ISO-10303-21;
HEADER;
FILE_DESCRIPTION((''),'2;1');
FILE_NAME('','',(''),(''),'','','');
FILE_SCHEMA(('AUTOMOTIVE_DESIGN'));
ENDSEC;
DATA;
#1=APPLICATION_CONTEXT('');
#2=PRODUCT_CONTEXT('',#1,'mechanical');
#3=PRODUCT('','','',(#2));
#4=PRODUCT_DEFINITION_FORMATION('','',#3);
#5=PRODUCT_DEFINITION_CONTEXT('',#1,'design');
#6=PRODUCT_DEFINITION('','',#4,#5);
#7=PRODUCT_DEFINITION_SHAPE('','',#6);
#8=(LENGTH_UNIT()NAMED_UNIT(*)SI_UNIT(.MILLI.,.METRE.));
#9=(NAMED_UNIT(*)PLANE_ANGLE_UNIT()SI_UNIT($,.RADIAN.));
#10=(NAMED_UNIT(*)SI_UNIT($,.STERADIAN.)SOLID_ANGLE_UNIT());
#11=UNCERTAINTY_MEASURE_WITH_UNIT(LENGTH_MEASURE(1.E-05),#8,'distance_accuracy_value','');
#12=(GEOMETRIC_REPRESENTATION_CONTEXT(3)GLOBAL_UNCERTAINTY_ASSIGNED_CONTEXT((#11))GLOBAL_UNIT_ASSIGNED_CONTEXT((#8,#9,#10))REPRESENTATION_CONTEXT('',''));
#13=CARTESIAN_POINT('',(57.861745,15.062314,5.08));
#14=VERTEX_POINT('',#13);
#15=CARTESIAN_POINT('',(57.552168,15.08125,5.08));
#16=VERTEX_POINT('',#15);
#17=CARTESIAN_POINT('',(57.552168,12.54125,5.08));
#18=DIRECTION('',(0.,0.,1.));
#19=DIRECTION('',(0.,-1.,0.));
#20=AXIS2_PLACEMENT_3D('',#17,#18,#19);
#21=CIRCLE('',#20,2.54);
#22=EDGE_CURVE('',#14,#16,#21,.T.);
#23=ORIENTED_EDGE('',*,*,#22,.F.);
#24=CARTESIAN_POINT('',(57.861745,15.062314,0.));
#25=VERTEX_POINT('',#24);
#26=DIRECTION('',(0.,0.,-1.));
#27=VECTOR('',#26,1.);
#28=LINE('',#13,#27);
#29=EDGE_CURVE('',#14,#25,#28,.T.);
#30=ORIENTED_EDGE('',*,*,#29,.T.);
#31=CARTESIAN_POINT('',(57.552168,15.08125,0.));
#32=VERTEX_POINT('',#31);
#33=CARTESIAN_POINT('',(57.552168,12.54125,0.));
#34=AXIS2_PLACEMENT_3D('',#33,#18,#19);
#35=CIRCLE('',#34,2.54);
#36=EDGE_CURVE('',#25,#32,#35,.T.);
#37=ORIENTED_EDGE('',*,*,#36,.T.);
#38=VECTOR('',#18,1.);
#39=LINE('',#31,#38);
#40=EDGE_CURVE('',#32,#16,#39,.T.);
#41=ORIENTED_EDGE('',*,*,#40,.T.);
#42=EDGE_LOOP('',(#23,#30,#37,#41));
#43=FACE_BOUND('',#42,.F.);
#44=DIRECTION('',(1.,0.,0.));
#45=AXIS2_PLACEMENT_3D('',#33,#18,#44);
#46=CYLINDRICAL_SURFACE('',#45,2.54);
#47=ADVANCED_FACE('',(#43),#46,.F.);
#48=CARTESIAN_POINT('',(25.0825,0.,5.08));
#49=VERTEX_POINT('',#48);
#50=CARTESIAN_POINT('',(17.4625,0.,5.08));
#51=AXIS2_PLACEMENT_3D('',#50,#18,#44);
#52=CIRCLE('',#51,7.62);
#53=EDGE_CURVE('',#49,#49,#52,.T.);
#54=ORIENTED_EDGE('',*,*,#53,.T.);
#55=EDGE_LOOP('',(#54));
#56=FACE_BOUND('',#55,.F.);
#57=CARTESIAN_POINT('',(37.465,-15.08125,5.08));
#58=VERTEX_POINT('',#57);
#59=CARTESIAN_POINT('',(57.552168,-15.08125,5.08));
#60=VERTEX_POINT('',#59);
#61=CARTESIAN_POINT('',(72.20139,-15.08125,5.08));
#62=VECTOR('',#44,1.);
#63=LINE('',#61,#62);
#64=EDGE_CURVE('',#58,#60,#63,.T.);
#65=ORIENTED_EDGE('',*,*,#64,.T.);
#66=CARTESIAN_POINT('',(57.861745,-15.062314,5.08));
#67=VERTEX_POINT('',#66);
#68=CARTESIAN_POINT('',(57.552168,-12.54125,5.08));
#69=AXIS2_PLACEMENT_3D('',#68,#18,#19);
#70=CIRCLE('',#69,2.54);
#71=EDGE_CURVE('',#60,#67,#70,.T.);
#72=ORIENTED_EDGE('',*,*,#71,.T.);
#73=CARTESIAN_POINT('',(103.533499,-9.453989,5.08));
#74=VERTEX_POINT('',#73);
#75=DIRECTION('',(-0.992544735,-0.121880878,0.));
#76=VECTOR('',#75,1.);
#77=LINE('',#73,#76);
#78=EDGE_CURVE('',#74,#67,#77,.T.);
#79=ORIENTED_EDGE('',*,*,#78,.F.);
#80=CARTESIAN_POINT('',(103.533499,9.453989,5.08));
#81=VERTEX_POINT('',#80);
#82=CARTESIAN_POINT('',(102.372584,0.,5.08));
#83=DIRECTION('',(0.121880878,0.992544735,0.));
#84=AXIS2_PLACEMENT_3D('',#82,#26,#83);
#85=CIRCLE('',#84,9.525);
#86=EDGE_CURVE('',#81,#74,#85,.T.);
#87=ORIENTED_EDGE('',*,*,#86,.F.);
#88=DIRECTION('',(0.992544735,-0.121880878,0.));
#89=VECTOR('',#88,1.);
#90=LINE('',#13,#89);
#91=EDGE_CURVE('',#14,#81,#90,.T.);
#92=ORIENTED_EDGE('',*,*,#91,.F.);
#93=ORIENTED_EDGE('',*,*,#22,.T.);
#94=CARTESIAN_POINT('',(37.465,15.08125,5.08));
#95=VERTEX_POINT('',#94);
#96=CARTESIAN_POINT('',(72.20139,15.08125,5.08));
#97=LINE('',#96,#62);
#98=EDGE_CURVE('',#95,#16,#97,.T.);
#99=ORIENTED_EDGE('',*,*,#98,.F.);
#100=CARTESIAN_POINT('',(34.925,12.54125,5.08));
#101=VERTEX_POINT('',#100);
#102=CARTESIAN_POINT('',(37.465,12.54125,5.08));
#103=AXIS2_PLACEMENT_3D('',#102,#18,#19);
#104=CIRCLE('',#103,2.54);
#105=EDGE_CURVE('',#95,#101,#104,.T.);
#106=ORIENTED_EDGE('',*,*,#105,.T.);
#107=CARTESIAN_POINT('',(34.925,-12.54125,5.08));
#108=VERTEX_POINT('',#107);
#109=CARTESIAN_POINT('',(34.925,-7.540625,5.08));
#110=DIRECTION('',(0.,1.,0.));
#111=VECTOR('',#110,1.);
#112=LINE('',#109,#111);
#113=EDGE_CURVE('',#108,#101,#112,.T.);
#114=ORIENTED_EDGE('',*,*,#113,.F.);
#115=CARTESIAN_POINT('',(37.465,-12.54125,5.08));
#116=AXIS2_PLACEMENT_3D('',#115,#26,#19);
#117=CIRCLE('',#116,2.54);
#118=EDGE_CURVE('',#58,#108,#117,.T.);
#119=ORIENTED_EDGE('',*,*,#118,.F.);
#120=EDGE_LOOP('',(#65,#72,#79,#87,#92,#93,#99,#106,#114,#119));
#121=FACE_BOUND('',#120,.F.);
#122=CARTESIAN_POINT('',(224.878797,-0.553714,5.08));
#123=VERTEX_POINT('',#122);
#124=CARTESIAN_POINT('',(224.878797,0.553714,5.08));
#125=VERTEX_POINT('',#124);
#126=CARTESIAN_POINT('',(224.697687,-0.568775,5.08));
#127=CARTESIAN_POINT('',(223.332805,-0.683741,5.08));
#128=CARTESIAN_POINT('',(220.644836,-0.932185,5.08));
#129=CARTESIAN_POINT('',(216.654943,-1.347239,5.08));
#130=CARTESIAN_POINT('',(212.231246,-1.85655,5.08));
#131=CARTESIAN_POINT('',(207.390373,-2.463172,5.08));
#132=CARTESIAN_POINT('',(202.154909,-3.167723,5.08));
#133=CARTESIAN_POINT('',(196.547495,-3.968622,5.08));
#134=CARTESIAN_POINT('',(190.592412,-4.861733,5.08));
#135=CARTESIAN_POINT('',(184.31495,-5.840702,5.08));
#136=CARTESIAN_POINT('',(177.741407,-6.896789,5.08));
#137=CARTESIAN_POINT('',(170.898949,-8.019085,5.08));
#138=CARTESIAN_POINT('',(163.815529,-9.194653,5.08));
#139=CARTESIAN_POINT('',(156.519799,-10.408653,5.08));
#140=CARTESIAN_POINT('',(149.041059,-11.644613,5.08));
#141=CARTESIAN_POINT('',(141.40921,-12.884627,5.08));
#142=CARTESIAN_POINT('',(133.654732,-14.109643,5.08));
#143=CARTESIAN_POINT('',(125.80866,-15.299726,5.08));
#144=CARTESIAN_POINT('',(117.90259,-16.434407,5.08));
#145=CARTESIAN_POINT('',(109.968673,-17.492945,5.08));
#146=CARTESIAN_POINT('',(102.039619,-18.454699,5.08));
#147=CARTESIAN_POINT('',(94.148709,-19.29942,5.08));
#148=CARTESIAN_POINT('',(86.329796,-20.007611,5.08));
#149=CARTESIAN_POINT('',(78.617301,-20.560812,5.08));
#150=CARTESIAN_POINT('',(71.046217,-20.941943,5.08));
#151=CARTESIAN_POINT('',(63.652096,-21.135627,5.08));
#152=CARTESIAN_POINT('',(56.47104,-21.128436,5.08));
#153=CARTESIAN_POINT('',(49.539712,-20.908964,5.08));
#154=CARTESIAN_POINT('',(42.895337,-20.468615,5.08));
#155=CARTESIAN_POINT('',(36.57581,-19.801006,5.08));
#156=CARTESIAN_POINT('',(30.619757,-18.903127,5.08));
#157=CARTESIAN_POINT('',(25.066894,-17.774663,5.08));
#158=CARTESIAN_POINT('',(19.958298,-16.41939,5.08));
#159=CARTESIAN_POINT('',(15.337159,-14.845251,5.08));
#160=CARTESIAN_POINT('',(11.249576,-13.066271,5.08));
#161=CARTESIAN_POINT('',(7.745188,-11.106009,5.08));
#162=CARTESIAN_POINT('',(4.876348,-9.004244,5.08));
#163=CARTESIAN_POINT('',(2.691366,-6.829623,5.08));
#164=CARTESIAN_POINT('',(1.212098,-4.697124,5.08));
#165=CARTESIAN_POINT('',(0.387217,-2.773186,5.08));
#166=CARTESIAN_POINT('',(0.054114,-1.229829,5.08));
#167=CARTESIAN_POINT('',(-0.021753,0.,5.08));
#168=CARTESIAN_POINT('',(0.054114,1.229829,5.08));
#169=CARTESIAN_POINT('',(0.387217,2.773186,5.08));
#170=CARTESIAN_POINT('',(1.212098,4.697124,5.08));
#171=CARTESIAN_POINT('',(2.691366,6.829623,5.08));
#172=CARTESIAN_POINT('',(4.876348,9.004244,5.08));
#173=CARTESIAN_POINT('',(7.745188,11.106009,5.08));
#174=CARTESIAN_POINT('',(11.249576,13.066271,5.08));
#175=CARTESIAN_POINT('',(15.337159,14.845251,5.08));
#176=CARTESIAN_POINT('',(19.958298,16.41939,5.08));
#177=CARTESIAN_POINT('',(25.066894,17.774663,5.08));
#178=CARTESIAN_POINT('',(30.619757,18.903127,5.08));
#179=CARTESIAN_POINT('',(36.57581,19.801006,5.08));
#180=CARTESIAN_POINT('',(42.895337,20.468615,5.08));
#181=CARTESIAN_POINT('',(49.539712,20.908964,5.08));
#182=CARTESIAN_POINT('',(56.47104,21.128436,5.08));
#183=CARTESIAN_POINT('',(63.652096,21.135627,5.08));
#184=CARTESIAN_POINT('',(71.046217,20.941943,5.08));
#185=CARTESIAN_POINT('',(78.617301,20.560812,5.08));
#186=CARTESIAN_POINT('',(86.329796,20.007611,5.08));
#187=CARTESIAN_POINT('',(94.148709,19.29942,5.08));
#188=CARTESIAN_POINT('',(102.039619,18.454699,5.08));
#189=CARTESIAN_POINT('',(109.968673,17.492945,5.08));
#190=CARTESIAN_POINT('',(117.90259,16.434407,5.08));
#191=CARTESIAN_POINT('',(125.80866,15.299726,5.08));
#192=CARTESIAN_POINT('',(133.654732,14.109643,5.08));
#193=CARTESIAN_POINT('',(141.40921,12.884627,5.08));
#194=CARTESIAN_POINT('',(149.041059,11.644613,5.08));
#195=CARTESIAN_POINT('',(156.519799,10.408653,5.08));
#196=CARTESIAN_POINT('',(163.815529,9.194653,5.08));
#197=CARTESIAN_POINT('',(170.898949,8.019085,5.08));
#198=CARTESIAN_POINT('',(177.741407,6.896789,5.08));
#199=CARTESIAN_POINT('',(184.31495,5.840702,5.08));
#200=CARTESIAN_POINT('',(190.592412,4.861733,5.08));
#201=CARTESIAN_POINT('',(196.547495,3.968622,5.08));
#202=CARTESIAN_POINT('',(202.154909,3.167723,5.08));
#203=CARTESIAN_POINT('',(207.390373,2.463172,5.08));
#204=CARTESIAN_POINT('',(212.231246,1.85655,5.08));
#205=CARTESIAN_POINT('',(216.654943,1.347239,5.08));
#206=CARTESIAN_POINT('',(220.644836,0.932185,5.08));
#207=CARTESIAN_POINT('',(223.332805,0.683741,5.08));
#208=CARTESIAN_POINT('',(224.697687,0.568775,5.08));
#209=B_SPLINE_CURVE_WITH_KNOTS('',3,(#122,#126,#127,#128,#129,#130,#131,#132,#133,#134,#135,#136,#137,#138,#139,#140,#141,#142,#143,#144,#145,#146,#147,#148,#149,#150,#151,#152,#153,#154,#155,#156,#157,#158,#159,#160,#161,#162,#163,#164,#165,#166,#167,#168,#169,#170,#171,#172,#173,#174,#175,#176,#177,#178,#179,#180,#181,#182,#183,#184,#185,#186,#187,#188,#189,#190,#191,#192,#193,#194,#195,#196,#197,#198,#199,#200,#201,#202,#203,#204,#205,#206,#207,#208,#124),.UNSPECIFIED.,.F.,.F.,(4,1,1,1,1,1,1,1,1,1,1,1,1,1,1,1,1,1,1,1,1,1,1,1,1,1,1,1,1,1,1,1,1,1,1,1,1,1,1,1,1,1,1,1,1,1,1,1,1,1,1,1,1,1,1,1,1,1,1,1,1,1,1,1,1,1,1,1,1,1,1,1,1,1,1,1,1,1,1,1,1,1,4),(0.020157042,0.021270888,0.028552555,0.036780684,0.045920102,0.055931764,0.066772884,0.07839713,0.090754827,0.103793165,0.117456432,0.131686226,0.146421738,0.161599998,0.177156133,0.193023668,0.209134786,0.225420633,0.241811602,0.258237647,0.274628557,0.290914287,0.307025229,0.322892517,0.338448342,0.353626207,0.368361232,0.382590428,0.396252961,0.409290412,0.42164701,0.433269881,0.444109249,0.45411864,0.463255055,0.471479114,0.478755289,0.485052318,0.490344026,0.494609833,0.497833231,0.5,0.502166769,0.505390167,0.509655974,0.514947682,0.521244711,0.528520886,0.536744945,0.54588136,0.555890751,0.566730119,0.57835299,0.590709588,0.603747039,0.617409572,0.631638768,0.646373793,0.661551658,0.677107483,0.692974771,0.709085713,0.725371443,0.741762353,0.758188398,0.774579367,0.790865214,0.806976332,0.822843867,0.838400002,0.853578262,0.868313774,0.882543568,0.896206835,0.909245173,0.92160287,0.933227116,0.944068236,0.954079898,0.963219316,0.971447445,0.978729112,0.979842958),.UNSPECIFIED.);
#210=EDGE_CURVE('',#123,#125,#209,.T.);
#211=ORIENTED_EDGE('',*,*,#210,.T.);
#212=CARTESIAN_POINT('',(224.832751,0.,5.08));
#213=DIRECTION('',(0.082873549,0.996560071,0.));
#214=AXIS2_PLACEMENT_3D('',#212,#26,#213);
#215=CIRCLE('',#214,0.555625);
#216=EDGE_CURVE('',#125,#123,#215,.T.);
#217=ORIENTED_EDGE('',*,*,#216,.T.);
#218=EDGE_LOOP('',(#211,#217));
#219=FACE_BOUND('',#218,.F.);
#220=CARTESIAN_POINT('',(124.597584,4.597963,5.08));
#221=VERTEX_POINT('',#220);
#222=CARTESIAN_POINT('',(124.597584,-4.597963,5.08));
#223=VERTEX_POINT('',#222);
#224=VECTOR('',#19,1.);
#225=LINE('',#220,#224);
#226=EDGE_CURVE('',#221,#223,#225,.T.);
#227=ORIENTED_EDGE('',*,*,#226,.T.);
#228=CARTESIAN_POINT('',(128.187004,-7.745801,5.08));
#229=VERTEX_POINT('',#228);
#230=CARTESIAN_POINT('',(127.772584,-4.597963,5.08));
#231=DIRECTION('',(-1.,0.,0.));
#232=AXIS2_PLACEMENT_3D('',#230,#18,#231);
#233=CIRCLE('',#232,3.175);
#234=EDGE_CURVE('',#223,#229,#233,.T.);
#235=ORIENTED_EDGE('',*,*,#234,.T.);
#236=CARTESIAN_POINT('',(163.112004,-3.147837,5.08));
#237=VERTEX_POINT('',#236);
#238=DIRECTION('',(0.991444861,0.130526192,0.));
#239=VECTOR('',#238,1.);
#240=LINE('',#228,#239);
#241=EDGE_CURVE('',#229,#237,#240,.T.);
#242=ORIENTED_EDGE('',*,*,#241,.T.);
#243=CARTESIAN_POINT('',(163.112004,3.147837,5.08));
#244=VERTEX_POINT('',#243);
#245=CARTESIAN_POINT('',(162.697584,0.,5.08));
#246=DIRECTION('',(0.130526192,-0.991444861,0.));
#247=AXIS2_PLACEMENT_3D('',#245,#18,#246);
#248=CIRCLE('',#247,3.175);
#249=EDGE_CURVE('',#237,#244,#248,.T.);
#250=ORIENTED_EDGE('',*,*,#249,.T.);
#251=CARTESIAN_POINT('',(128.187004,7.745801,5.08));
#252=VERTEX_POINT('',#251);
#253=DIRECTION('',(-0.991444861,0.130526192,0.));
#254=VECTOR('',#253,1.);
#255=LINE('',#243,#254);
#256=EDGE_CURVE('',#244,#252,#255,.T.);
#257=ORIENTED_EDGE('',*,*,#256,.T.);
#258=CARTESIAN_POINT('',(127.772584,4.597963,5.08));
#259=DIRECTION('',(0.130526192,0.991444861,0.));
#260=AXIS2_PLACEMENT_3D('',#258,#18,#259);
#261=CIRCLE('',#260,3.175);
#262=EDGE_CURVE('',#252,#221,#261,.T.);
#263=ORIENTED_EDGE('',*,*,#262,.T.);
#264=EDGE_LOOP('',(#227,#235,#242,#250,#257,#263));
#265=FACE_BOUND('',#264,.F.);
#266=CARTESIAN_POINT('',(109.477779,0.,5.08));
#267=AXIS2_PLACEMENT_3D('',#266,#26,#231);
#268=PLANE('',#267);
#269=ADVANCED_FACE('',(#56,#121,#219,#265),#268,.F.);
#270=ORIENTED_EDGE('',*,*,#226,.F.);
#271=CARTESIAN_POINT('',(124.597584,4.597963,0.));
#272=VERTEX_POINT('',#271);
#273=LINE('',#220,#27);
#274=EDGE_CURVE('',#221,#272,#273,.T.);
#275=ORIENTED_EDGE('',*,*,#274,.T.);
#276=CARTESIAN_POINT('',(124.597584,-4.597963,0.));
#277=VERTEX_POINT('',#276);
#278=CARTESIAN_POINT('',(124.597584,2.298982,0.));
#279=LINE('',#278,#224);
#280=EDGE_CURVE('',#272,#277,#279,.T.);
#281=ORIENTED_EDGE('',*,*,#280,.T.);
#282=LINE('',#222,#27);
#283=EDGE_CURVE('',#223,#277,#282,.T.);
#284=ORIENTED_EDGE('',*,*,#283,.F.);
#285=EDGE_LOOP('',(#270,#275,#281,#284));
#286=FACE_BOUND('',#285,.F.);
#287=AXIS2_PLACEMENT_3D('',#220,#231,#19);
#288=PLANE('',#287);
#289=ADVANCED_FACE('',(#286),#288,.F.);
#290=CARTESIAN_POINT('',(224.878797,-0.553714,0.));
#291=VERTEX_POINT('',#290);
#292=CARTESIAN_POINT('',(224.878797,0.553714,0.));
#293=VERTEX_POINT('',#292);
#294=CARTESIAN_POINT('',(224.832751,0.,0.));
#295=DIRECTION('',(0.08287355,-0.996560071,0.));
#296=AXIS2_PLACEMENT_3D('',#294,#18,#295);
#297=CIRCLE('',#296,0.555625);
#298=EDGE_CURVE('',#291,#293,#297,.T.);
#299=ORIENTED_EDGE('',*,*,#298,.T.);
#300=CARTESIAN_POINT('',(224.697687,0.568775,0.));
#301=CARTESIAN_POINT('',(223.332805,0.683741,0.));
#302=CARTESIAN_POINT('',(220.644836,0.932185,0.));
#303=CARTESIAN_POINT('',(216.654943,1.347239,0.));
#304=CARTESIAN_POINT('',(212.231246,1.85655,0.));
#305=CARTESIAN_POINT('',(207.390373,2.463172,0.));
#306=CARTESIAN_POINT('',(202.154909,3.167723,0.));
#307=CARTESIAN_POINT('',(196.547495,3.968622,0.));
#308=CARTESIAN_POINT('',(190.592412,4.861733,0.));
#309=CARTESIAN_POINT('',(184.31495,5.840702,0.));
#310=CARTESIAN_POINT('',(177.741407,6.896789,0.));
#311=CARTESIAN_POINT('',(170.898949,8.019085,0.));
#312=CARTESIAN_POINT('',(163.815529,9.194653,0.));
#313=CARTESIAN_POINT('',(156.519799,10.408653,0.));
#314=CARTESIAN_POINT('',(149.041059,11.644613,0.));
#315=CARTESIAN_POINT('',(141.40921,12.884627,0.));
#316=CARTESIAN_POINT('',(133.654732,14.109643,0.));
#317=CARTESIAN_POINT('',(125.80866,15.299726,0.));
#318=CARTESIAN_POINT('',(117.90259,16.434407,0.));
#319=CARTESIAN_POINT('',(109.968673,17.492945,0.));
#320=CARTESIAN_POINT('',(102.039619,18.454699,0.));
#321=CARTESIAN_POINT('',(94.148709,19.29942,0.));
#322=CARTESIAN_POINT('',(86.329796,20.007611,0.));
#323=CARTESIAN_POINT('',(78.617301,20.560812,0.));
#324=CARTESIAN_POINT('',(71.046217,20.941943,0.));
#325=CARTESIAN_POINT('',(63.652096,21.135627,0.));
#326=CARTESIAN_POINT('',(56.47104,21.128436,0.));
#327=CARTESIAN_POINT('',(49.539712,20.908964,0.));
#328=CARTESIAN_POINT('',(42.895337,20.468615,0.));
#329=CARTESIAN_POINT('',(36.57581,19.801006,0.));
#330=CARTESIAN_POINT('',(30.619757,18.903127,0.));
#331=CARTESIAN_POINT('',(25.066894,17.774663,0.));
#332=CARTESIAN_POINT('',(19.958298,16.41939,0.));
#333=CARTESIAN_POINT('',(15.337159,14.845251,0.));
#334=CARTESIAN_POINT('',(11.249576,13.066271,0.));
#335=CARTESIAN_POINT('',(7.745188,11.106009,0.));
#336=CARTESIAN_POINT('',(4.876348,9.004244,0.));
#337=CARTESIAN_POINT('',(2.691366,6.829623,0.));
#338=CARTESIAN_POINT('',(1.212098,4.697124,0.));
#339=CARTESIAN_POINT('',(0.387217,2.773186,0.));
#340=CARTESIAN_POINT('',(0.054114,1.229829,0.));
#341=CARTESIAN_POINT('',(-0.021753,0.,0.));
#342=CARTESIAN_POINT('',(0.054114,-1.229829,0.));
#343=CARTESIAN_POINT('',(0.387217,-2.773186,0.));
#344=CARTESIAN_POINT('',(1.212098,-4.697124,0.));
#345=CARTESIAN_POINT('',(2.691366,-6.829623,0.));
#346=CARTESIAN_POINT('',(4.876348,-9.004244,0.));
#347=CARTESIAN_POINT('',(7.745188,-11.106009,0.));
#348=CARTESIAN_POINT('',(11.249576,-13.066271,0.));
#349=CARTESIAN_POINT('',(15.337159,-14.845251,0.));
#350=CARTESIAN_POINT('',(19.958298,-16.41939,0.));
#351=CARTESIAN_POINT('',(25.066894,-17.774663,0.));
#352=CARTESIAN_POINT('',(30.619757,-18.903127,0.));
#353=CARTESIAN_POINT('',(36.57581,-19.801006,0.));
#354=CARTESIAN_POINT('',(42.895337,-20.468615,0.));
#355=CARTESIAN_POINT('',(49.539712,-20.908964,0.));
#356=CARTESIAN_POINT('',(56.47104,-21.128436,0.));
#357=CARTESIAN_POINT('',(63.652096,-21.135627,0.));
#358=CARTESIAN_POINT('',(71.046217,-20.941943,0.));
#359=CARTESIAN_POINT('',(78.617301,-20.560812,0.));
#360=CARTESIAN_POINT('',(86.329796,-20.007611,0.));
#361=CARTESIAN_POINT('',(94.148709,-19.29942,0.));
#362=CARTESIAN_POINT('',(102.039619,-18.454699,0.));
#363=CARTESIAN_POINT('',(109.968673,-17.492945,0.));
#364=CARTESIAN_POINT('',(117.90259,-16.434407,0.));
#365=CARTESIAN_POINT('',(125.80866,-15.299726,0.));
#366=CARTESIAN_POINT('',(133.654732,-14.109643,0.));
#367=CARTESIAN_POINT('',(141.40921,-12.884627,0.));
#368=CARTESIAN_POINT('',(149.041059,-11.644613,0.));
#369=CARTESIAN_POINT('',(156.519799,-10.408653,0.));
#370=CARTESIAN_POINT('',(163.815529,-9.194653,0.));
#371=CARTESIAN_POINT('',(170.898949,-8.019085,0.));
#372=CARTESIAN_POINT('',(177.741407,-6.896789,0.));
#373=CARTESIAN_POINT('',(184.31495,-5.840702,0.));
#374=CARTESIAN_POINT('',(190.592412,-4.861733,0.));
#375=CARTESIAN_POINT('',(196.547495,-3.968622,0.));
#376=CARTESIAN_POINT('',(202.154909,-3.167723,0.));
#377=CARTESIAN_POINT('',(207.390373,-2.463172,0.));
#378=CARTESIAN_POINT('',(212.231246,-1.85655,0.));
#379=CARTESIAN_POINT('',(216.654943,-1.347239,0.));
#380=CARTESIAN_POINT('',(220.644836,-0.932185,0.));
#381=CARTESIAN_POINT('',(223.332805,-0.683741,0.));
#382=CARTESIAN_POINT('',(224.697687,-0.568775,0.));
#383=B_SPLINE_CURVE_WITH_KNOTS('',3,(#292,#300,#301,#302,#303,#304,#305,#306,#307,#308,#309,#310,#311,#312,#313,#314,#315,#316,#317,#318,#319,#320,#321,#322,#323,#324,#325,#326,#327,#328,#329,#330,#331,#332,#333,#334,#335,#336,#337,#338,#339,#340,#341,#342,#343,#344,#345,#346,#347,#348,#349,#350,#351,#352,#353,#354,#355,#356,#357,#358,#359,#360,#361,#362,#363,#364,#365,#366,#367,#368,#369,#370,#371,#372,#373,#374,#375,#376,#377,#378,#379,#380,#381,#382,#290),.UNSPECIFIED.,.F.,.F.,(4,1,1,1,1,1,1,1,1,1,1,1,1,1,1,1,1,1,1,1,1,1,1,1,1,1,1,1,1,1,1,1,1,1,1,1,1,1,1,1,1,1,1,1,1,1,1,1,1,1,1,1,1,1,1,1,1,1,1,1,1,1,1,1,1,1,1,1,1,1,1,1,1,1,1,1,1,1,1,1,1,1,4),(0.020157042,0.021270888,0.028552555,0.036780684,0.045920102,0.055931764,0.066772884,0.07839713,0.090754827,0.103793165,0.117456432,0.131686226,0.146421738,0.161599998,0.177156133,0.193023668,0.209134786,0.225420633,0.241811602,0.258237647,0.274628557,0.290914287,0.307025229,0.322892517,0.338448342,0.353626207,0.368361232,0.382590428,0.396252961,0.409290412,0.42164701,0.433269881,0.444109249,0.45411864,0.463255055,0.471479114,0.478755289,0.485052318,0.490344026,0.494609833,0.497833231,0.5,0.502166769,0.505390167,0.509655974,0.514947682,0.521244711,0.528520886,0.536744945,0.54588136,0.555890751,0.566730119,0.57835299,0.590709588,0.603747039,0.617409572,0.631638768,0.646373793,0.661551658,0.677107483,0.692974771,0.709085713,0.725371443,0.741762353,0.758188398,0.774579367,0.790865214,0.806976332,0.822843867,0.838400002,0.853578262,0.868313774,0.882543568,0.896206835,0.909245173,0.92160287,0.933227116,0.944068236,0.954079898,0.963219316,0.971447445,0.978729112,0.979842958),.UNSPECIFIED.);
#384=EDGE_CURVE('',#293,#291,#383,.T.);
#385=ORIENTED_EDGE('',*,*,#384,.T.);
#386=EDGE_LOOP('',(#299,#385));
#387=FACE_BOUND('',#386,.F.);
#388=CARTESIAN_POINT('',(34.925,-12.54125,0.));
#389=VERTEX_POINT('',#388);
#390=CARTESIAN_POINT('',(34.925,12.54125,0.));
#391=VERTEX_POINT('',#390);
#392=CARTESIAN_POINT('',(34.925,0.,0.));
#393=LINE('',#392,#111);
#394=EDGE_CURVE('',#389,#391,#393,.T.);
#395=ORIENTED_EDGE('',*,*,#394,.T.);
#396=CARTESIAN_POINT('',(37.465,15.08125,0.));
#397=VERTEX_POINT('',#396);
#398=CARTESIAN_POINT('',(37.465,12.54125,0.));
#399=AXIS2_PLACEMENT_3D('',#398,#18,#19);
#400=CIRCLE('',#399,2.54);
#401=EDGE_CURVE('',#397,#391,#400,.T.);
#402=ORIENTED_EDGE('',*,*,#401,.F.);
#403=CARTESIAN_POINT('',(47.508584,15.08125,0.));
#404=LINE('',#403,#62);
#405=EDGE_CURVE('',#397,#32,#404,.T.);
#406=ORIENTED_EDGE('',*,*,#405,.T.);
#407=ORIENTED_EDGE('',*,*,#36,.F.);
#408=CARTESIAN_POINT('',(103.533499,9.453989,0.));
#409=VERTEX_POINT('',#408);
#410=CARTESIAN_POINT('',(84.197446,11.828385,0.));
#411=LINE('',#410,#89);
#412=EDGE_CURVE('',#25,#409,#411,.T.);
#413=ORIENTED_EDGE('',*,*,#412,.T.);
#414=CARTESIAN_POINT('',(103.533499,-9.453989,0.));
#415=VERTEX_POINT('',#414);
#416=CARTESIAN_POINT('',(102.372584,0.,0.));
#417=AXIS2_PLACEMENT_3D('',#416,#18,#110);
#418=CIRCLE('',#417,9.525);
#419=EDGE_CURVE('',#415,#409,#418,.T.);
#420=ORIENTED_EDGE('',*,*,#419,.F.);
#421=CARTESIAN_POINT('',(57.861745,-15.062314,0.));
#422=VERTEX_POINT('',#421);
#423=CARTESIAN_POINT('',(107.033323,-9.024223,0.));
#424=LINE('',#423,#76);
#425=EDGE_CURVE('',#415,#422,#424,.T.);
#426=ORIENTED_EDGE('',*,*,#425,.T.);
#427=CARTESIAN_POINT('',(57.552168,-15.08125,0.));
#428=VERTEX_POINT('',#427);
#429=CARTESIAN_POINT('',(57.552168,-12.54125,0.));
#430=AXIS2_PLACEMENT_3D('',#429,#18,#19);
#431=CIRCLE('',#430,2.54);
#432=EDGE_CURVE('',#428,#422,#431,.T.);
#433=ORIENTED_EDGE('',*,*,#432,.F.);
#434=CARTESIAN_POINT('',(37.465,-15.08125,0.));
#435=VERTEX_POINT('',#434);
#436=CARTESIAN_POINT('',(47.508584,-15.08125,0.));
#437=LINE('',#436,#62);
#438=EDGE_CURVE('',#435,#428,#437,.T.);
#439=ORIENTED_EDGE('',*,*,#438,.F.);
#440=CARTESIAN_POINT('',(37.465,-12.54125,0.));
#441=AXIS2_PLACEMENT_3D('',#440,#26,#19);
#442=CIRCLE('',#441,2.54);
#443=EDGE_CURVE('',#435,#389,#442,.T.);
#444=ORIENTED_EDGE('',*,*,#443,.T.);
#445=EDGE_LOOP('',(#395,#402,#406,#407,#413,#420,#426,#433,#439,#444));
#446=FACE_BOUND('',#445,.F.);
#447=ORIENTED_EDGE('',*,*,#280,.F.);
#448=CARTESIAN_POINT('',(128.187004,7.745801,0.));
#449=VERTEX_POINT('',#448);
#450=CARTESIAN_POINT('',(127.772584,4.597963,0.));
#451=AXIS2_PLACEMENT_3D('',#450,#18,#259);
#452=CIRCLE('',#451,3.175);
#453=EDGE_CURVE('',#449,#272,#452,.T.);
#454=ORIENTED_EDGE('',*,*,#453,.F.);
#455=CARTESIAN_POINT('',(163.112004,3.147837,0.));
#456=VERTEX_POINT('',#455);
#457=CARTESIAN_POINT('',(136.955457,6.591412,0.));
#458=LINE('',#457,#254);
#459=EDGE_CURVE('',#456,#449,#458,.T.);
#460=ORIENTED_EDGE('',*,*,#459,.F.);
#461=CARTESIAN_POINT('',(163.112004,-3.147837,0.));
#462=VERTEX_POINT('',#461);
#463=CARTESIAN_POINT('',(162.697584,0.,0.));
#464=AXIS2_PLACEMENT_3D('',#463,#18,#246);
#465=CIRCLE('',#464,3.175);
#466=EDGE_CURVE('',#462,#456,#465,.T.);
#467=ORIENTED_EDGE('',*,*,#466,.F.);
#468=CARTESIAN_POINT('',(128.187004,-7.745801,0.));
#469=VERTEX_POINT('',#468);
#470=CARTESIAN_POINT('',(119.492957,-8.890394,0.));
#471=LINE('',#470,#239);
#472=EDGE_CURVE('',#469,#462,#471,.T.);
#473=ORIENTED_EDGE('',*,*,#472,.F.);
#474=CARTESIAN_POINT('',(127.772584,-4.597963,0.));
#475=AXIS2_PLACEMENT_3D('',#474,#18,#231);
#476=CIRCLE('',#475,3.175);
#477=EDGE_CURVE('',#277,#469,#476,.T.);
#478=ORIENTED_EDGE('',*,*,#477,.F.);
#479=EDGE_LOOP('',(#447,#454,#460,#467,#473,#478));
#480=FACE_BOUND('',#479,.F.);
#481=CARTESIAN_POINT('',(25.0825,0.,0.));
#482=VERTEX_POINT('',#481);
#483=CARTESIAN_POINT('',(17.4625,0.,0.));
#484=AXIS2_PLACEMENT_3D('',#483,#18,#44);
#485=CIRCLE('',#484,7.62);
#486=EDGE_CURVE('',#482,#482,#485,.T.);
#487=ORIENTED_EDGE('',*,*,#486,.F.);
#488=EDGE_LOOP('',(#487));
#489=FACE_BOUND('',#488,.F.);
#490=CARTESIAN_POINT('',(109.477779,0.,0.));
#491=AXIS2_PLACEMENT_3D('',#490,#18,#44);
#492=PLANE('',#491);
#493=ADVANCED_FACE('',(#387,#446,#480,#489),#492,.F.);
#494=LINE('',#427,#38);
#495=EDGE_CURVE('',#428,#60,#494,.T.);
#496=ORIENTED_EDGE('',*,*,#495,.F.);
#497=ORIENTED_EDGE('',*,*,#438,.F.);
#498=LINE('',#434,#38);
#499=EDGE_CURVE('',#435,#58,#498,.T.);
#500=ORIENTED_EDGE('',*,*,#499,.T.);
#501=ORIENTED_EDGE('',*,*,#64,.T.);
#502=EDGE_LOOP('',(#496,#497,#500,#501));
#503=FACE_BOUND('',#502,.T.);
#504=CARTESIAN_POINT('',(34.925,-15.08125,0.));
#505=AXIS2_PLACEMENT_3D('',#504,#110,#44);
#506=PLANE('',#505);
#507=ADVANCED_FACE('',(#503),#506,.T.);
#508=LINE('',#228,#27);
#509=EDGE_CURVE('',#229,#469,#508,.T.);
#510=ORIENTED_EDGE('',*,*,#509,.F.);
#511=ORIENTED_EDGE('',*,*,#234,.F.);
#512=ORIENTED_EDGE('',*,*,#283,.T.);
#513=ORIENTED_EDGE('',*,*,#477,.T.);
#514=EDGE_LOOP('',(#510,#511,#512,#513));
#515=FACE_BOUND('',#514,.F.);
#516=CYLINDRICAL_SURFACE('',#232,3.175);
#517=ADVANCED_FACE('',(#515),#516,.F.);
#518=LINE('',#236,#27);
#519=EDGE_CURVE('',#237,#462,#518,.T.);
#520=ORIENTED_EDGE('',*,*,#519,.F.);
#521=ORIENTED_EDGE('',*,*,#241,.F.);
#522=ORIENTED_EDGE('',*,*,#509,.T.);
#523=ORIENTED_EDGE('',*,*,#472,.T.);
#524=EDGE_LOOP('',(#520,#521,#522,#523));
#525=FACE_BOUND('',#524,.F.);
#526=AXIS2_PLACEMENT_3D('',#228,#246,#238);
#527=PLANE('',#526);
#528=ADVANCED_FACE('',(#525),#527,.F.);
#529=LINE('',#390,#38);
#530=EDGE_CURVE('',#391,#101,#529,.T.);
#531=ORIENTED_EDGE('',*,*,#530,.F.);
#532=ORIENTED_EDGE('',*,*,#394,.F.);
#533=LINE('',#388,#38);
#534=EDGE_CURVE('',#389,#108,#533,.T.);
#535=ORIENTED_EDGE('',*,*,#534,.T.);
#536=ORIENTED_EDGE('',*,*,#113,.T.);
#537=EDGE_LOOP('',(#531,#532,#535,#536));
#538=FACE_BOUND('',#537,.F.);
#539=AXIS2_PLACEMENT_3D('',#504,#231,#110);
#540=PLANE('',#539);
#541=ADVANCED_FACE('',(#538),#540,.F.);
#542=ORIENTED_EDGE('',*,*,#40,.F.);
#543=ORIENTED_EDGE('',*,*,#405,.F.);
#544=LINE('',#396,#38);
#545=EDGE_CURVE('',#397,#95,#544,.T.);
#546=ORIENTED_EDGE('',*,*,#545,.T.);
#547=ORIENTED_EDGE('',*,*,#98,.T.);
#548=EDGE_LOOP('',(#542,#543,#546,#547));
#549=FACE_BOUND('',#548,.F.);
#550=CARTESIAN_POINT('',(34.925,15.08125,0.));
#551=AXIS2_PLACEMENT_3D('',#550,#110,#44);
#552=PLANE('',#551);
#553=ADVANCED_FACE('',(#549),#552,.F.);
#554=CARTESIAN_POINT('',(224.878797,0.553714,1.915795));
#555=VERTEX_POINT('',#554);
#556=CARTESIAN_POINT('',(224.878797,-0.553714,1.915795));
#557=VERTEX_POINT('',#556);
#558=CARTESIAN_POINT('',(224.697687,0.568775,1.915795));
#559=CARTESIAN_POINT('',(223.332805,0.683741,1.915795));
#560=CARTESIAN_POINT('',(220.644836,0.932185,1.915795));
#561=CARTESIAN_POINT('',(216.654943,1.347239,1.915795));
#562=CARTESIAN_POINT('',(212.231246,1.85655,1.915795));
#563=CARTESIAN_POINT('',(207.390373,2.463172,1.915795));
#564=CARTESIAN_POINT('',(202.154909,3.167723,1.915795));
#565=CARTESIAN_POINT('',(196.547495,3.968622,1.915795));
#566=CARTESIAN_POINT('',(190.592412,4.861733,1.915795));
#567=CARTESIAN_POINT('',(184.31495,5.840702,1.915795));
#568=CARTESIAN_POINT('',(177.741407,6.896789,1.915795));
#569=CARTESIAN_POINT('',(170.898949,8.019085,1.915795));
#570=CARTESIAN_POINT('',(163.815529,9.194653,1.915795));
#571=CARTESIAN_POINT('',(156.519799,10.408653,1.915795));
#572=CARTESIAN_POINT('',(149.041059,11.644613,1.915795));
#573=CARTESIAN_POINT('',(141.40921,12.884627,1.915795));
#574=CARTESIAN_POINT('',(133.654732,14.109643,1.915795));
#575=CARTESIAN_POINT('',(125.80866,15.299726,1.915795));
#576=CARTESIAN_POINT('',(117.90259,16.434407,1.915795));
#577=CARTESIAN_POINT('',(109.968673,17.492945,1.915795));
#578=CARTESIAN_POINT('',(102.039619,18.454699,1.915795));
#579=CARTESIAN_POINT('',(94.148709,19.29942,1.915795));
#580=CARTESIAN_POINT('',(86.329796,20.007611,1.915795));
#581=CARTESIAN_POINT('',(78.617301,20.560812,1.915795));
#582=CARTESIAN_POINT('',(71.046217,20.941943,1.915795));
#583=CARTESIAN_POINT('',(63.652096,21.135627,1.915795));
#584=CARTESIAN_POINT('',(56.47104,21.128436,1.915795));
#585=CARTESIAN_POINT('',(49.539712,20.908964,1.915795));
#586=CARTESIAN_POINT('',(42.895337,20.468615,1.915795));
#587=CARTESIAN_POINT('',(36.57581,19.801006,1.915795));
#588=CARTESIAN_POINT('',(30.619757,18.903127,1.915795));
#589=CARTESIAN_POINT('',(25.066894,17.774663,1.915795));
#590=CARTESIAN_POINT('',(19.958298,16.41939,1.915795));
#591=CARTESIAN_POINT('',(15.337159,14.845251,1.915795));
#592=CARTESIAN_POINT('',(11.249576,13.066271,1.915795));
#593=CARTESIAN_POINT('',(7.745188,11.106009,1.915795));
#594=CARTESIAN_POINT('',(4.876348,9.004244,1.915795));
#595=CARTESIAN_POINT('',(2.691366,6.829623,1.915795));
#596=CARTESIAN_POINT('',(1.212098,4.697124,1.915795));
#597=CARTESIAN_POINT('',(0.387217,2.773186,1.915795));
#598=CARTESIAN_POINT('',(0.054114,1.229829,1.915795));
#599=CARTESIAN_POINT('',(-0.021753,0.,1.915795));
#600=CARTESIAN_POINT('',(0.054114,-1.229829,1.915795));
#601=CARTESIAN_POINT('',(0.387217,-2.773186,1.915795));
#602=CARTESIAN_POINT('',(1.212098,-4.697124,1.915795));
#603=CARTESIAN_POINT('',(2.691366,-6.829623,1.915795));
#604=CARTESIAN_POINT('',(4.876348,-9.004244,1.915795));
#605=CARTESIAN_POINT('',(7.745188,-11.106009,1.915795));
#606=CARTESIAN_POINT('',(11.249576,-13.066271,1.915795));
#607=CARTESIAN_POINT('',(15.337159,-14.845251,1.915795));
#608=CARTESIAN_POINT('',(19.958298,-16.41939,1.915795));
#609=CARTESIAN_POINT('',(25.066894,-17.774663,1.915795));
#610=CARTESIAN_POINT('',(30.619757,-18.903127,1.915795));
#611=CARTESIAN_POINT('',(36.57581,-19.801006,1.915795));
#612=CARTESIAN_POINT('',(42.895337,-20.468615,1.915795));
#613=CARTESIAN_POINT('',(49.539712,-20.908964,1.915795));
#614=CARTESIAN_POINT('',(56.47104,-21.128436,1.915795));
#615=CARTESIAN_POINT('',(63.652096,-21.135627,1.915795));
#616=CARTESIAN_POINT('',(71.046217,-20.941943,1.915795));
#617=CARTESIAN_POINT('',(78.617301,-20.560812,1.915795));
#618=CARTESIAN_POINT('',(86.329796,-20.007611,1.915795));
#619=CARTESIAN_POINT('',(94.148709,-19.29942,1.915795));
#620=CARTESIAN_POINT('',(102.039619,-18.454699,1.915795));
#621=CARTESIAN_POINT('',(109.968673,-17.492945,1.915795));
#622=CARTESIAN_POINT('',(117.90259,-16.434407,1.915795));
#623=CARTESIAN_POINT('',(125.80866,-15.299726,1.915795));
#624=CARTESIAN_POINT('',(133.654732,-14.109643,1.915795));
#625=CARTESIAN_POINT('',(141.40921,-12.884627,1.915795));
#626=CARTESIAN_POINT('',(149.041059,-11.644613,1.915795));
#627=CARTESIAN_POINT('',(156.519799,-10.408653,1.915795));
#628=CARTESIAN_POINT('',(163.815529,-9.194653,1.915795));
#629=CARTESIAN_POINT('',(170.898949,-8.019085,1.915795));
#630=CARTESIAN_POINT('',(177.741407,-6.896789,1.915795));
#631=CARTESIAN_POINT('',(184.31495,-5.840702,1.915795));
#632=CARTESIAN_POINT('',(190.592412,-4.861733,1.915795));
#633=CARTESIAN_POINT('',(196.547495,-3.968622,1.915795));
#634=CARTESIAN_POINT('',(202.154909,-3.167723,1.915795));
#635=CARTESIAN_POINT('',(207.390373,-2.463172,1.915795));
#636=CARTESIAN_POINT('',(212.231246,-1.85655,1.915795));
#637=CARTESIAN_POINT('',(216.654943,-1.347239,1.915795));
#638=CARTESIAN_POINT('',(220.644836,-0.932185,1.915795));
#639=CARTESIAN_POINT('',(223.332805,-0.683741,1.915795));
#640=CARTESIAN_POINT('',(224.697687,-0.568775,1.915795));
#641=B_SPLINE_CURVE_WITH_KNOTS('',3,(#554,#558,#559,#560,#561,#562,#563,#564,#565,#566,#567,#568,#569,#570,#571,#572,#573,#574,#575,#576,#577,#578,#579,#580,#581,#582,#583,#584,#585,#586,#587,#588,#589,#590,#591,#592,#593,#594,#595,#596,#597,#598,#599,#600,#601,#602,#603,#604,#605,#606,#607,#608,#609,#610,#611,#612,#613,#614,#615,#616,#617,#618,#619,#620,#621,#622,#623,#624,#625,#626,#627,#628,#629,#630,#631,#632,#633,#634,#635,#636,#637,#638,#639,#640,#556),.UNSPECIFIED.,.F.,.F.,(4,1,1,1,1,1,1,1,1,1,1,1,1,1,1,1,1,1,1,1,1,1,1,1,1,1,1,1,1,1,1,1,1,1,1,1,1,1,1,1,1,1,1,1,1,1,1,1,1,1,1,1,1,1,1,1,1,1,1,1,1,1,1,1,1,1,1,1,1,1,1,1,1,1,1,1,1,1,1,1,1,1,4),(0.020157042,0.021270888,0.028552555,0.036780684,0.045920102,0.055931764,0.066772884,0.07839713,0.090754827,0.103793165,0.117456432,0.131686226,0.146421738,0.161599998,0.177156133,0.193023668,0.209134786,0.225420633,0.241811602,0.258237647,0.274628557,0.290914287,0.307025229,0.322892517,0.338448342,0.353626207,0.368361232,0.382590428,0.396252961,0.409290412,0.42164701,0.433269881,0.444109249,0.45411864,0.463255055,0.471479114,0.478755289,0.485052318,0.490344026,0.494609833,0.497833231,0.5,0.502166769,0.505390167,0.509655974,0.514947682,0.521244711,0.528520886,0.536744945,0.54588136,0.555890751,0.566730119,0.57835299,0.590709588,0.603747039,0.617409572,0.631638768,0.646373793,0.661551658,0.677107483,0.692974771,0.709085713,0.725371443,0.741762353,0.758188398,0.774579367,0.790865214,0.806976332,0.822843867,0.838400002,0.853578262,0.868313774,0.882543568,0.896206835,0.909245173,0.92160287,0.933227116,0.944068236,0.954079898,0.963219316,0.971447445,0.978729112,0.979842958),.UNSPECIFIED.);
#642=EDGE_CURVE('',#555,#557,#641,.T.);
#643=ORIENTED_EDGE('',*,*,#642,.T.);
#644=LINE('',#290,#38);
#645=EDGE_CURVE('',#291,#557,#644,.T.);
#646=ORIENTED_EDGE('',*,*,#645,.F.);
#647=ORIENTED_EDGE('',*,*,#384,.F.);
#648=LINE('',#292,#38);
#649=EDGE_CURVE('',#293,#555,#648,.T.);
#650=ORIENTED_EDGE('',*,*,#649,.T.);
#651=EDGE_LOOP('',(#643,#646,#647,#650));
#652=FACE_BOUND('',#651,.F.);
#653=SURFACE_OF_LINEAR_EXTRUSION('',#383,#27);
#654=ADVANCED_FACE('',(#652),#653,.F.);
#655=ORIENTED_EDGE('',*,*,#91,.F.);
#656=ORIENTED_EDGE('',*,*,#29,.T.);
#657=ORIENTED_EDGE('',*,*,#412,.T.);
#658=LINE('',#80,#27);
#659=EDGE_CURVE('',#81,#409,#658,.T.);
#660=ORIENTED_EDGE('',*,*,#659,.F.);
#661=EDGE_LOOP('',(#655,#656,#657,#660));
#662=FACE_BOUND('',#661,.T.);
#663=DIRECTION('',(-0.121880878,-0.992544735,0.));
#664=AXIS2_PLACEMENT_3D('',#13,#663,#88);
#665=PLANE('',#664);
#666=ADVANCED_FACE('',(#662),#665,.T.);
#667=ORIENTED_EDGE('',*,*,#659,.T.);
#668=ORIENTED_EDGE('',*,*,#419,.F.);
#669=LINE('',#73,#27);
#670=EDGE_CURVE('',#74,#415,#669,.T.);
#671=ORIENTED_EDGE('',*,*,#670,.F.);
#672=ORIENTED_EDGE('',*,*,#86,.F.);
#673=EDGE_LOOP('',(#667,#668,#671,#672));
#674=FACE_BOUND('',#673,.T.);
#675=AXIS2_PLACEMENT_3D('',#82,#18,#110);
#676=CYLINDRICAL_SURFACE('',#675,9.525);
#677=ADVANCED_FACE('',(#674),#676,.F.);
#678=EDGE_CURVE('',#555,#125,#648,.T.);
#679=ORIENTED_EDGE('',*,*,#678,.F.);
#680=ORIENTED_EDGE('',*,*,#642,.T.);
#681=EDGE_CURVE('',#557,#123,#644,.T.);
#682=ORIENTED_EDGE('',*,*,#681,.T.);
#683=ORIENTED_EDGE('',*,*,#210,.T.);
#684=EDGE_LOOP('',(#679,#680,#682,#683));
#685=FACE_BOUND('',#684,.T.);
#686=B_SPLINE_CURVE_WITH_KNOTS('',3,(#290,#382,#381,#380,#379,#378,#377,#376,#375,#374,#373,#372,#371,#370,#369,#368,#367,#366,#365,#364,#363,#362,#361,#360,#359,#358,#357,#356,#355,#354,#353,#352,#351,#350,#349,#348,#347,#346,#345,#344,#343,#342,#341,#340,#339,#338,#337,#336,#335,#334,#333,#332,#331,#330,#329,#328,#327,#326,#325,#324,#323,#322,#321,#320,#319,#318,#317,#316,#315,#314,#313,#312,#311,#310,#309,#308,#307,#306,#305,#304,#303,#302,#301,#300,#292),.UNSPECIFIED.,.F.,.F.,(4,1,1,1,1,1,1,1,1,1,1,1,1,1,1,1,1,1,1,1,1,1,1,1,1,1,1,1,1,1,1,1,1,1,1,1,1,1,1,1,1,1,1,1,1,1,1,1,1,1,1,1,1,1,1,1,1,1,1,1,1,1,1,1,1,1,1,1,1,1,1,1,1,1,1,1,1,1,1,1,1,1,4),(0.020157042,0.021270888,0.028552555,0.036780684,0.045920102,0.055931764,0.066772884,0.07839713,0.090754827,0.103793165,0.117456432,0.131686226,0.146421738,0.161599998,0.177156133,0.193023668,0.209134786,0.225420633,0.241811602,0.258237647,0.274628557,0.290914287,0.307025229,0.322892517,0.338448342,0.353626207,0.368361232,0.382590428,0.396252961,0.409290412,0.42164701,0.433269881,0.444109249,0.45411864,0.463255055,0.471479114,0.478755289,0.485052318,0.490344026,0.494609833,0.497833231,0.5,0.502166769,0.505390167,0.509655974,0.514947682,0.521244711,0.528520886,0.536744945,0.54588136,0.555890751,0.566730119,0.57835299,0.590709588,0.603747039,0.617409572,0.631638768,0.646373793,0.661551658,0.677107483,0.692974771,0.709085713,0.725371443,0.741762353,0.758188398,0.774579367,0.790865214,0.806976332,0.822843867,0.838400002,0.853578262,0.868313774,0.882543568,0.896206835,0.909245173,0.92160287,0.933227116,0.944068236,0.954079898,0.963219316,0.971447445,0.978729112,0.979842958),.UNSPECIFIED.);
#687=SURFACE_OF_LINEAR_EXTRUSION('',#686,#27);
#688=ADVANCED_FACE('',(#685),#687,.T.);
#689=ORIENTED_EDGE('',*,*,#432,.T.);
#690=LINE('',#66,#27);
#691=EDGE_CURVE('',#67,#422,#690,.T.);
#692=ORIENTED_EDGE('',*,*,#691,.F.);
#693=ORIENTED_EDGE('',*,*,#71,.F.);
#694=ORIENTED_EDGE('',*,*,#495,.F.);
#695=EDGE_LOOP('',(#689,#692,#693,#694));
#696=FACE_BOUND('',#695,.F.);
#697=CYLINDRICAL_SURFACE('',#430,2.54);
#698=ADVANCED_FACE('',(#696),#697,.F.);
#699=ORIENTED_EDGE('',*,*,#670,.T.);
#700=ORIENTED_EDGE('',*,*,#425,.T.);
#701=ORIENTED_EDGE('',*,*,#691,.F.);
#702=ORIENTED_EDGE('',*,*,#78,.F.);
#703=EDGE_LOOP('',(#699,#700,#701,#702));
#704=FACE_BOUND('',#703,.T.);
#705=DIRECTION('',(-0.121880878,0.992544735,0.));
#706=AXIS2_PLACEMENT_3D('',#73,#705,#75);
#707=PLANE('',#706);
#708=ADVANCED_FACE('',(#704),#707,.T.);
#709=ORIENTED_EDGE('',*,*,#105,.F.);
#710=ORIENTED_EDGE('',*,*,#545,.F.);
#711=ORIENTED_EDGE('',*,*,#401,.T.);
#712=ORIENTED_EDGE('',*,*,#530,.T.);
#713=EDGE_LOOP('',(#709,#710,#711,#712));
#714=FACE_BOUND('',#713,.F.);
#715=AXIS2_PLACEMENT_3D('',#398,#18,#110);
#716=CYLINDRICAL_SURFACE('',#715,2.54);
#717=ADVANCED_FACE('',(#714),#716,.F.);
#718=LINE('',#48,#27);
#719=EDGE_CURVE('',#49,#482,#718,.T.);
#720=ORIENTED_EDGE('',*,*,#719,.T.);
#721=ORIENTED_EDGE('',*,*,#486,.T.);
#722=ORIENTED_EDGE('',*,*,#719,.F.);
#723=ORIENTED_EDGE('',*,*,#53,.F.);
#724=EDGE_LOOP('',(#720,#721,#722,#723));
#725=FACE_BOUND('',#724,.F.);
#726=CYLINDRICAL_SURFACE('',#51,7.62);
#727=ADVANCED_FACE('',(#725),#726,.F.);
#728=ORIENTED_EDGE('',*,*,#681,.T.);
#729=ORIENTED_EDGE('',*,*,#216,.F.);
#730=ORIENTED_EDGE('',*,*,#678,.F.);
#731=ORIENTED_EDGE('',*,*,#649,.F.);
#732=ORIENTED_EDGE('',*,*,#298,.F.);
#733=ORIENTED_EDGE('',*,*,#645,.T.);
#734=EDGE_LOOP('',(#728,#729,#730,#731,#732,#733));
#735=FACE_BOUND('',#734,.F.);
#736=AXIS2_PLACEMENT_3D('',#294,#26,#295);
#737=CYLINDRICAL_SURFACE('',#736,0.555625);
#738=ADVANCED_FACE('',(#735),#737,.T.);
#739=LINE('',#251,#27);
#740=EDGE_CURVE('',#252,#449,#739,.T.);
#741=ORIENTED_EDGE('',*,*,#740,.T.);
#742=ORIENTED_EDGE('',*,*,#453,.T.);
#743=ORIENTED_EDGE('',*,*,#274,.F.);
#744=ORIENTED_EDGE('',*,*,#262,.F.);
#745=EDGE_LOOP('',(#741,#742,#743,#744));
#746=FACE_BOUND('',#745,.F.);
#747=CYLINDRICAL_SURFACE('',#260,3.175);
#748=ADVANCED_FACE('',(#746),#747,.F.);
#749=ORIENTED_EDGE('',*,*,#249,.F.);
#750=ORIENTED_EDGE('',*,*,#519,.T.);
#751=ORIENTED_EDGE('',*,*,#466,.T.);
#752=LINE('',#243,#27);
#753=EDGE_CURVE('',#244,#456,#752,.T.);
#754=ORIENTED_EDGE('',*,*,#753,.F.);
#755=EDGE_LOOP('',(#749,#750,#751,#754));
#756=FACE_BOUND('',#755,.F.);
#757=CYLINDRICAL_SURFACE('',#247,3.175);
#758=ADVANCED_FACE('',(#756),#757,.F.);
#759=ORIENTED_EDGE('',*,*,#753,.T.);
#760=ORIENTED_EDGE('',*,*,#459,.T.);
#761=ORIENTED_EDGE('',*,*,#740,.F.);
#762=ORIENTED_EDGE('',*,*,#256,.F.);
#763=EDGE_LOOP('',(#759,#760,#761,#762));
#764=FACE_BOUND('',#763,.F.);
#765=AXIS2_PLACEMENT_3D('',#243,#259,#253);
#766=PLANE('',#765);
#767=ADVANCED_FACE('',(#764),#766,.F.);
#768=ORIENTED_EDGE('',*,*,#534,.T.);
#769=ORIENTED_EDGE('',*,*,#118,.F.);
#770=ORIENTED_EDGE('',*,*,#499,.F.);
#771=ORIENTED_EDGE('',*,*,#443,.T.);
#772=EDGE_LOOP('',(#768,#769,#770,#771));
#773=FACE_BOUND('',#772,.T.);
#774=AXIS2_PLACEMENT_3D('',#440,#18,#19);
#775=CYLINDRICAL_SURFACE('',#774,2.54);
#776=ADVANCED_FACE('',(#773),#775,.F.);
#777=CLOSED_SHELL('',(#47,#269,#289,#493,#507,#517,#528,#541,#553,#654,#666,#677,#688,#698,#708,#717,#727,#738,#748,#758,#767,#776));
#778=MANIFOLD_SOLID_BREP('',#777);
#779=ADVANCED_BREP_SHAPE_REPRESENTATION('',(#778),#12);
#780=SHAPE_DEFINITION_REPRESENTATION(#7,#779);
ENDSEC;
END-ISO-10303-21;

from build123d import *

# Parameters (mm, degrees)
BOSS_EXTRUDE1_DEPTH = 5.4737
SCALE1_SCALE        = 0.35
BOSS_EXTRUDE2_DEPTH = 5.08
SKETCH10_W          = 25.167167629
SKETCH10_H          = 30.1625
CUT_EXTRUDE6_DEPTH  = 6.0800001
FILLET1_R           = 2.54
CUT_EXTRUDE8_DEPTH  = 6.0800001
CUT_EXTRUDE9_DEPTH  = 6.0800001
SKETCH19_R          = 7.62
CUT_EXTRUDE10_DEPTH = 6.0800001


with BuildPart() as part:
    # Sketch2 → Boss-Extrude1 (new body)
    with BuildSketch(Plane.XY):
        with BuildLine():
            add(Edge.make_bspline(
                [(642.510849283, 1.582039112), (641.993392355, 1.625070631), (638.093728429, 1.953546407), (630.413817462, 2.663385493), (619.014124193, 3.849253664), (606.374988512, 5.304428983), (592.543922516, 7.037634907), (577.585454095, 9.050636147), (561.564270734, 11.338919625), (544.549749946, 13.890665375), (526.614143658, 16.687720753), (507.832591566, 19.705111663), (488.282710288, 22.911672601), (468.044367735, 26.27043606), (447.199424328, 29.739007432), (425.831595832, 33.270324121), (404.02631566, 36.813220545), (381.870662856, 40.313266856), (359.453314895, 43.713502532), (336.86454415, 46.955447457), (314.196207315, 49.979843895), (291.541767704, 52.727712704), (268.996310773, 55.141201012), (246.65655865, 57.164603829), (224.620860897, 58.745176641), (202.989192599, 59.8341217), (181.863132616, 60.387506142), (161.345829027, 60.366961324), (141.542033828, 59.739895824), (122.558104573, 58.481758104), (104.502313427, 56.574303932), (87.485018636, 54.008935199), (71.619696083, 50.784752003), (57.023709725, 46.912543066), (43.82045433, 42.41500246), (32.141645239, 37.332204029), (22.129107375, 31.731455339), (13.932423524, 25.726412106), (7.689616489, 19.513207632), (3.463136343, 13.420354421), (1.106333228, 7.923389435), (0.154611582, 3.513796615), (-0.062151598, 0), (0.154611582, -3.513796615), (1.106333228, -7.923389435), (3.463136343, -13.420354421), (7.689616489, -19.513207632), (13.932423524, -25.726412106), (22.129107375, -31.731455339), (32.141645239, -37.332204029), (43.82045433, -42.41500246), (57.023709725, -46.912543066), (71.619696083, -50.784752003), (87.485018636, -54.008935199), (104.502313427, -56.574303932), (122.558104573, -58.481758104), (141.542033828, -59.739895824), (161.345829027, -60.366961324), (181.863132616, -60.387506142), (202.989192599, -59.8341217), (224.620860897, -58.745176641), (246.65655865, -57.164603829), (268.996310773, -55.141201012), (291.541767704, -52.727712704), (314.196207315, -49.979843895), (336.86454415, -46.955447457), (359.453314895, -43.713502532), (381.870662856, -40.313266856), (404.02631566, -36.813220545), (425.831595832, -33.270324121), (447.199424328, -29.739007432), (468.044367735, -26.27043606), (488.282710288, -22.911672601), (507.832591566, -19.705111663), (526.614143658, -16.687720753), (544.549749946, -13.890665375), (561.564270734, -11.338919625), (577.585454095, -9.050636147), (592.543922516, -7.037634907), (606.374988512, -5.304428983), (619.014124193, -3.849253664), (630.413817462, -2.663385493), (638.093728429, -1.953546407), (641.993392355, -1.625070631), (642.510849283, -1.582039112)],
                knots=[0.020157042, 0.020157042, 0.020157042, 0.020157042, 0.021270888, 0.028552555, 0.036780684, 0.045920102, 0.055931764, 0.066772884, 0.07839713, 0.090754827, 0.103793165, 0.117456432, 0.131686226, 0.146421738, 0.161599998, 0.177156133, 0.193023668, 0.209134786, 0.225420633, 0.241811602, 0.258237647, 0.274628557, 0.290914287, 0.307025229, 0.322892517, 0.338448342, 0.353626207, 0.368361232, 0.382590428, 0.396252961, 0.409290412, 0.42164701, 0.433269881, 0.444109249, 0.45411864, 0.463255055, 0.471479114, 0.478755289, 0.485052318, 0.490344026, 0.494609833, 0.497833231, 0.5, 0.502166769, 0.505390167, 0.509655974, 0.514947682, 0.521244711, 0.528520886, 0.536744945, 0.54588136, 0.555890751, 0.566730119, 0.57835299, 0.590709588, 0.603747039, 0.617409572, 0.631638768, 0.646373793, 0.661551658, 0.677107483, 0.692974771, 0.709085713, 0.725371443, 0.741762353, 0.758188398, 0.774579367, 0.790865214, 0.806976332, 0.822843867, 0.838400002, 0.853578262, 0.868313774, 0.882543568, 0.896206835, 0.909245173, 0.92160287, 0.933227116, 0.944068236, 0.954079898, 0.963219316, 0.971447445, 0.978729112, 0.979842958, 0.979842958, 0.979842958, 0.979842958], degree=3))
            ThreePointArc((642.510849283, -1.582039112), (643.966787522, 0), (642.510849283, 1.582039112))
        make_face()
    extrude(amount=BOSS_EXTRUDE1_DEPTH)


with BuildPart() as part_1:
    # Scale1: scaled about (0, 0, 0)
    add(part.part.scale(SCALE1_SCALE))

    # Sketch11 → Boss-Extrude2 (add)
    with BuildSketch(Plane(origin=(0, 0, 0), x_dir=(-1, 0, 0), z_dir=(0, 0, -1))):
        with BuildLine():
            ThreePointArc((-224.878797249, 0.553713689), (-225.388375633, 0), (-224.878797249, -0.553713689))
            add(Edge.make_bspline(
                [(-224.878797249, -0.553713689), (-224.697687324, -0.568774721), (-223.33280495, -0.683741243), (-220.644836112, -0.932184923), (-216.654943468, -1.347238782), (-212.231245979, -1.856550144), (-207.390372881, -2.463172217), (-202.154908933, -3.167722651), (-196.547494757, -3.968621869), (-190.592412481, -4.861732881), (-184.31495028, -5.840702264), (-177.741407048, -6.896789082), (-170.898948601, -8.01908541), (-163.815528707, -9.194652621), (-156.519798515, -10.408652601), (-149.041058541, -11.644613442), (-141.409210481, -12.884627191), (-133.654731999, -14.1096434), (-125.808660213, -15.299725886), (-117.902590453, -16.43440661), (-109.96867256, -17.492945363), (-102.039618696, -18.454699446), (-94.148708771, -19.299420354), (-86.329795527, -20.00761134), (-78.617301314, -20.560811824), (-71.04621741, -20.941942595), (-63.652096416, -21.13562715), (-56.471040159, -21.128436463), (-49.53971184, -20.908963539), (-42.895336601, -20.468615336), (-36.5758097, -19.801006376), (-30.619756523, -18.90312732), (-25.066893629, -17.774663201), (-19.958298404, -16.419390073), (-15.337159016, -14.845250861), (-11.249575834, -13.06627141), (-7.745187581, -11.106009369), (-4.876348233, -9.004244237), (-2.691365771, -6.829622671), (-1.21209772, -4.697124047), (-0.38721663, -2.773186302), (-0.054114054, -1.229828815), (0.021753059, 0), (-0.054114054, 1.229828815), (-0.38721663, 2.773186302), (-1.21209772, 4.697124047), (-2.691365771, 6.829622671), (-4.876348233, 9.004244237), (-7.745187581, 11.106009369), (-11.249575834, 13.06627141), (-15.337159016, 14.845250861), (-19.958298404, 16.419390073), (-25.066893629, 17.774663201), (-30.619756523, 18.90312732), (-36.5758097, 19.801006376), (-42.895336601, 20.468615336), (-49.53971184, 20.908963539), (-56.471040159, 21.128436463), (-63.652096416, 21.13562715), (-71.04621741, 20.941942595), (-78.617301314, 20.560811824), (-86.329795527, 20.00761134), (-94.148708771, 19.299420354), (-102.039618696, 18.454699446), (-109.96867256, 17.492945363), (-117.902590453, 16.43440661), (-125.808660213, 15.299725886), (-133.654731999, 14.1096434), (-141.409210481, 12.884627191), (-149.041058541, 11.644613442), (-156.519798515, 10.408652601), (-163.815528707, 9.194652621), (-170.898948601, 8.01908541), (-177.741407048, 6.896789082), (-184.31495028, 5.840702264), (-190.592412481, 4.861732881), (-196.547494757, 3.968621869), (-202.154908933, 3.167722651), (-207.390372881, 2.463172217), (-212.231245979, 1.856550144), (-216.654943468, 1.347238782), (-220.644836112, 0.932184923), (-223.33280495, 0.683741243), (-224.697687324, 0.568774721), (-224.878797249, 0.553713689)],
                knots=[0.020157042, 0.020157042, 0.020157042, 0.020157042, 0.021270888, 0.028552555, 0.036780684, 0.045920102, 0.055931764, 0.066772884, 0.07839713, 0.090754827, 0.103793165, 0.117456432, 0.131686226, 0.146421738, 0.161599998, 0.177156133, 0.193023668, 0.209134786, 0.225420633, 0.241811602, 0.258237647, 0.274628557, 0.290914287, 0.307025229, 0.322892517, 0.338448342, 0.353626207, 0.368361232, 0.382590428, 0.396252961, 0.409290412, 0.42164701, 0.433269881, 0.444109249, 0.45411864, 0.463255055, 0.471479114, 0.478755289, 0.485052318, 0.490344026, 0.494609833, 0.497833231, 0.5, 0.502166769, 0.505390167, 0.509655974, 0.514947682, 0.521244711, 0.528520886, 0.536744945, 0.54588136, 0.555890751, 0.566730119, 0.57835299, 0.590709588, 0.603747039, 0.617409572, 0.631638768, 0.646373793, 0.661551658, 0.677107483, 0.692974771, 0.709085713, 0.725371443, 0.741762353, 0.758188398, 0.774579367, 0.790865214, 0.806976332, 0.822843867, 0.838400002, 0.853578262, 0.868313774, 0.882543568, 0.896206835, 0.909245173, 0.92160287, 0.933227116, 0.944068236, 0.954079898, 0.963219316, 0.971447445, 0.978729112, 0.979842958, 0.979842958, 0.979842958, 0.979842958], degree=3))
        make_face()
    extrude(amount=-BOSS_EXTRUDE2_DEPTH)

    # Sketch10 → Cut-Extrude6 (cut, through all)
    with BuildSketch(Plane.XY):
        with Locations((47.508583814, 0)):
            Rectangle(SKETCH10_W, SKETCH10_H)
    extrude(amount=CUT_EXTRUDE6_DEPTH, mode=Mode.SUBTRACT)

    # Fillet1
    fillet1_edges = [part_1.edges().sort_by_distance(p)[0] for p in [
        (60.092167629, -15.08125, 2.54),
        (60.092167629, 15.08125, 2.54),
        (34.925, 15.08125, 2.54),
        (34.925, -15.08125, 2.54),
    ]]
    fillet(fillet1_edges, radius=FILLET1_R)

    # Sketch16 → Cut-Extrude8 (cut, through all)
    with BuildSketch(Plane.XY.offset(5.08)):
        with BuildLine():
            Line((102.372583815, -9.525), (100.594583815, -9.525))
            ThreePointArc((100.594583815, -9.525), (91.069583815, 0), (100.594583815, 9.525))
            Line((100.594583815, 9.525), (102.372583815, 9.525))
            ThreePointArc((102.372583815, 9.525), (111.897583815, 0), (102.372583815, -9.525))
        make_face()
    extrude(amount=-CUT_EXTRUDE8_DEPTH, mode=Mode.SUBTRACT)

    # Sketch18 → Cut-Extrude9 (cut, through all)
    with BuildSketch(Plane.XY.offset(5.08)):
        with BuildLine():
            Line((57.861745058, 15.062313628), (103.533499174, 9.453988604))
            ThreePointArc((103.533499174, 9.453988604), (111.897583815, 0), (103.533499174, -9.453988604))
            Line((103.533499174, -9.453988604), (57.861745058, -15.062313628))
            ThreePointArc((57.861745058, -15.062313628), (59.454524939, -14.224293869), (60.092167629, -12.54125))
            Line((60.092167629, -12.54125), (60.092167629, 12.54125))
            ThreePointArc((60.092167629, 12.54125), (59.454524939, 14.224293869), (57.861745058, 15.062313628))
        make_face()
    extrude(amount=-CUT_EXTRUDE9_DEPTH, mode=Mode.SUBTRACT)

    # Sketch19 → Cut-Extrude10 (cut, through all)
    with BuildSketch(Plane.XY.offset(5.08)):
        with Locations((17.4625, 0)):
            Circle(SKETCH19_R)
        with BuildLine():
            Line((163.112004475, 3.147837435), (128.187004475, 7.745800913))
            ThreePointArc((128.187004475, 7.745800913), (125.679160852, 6.985054867), (124.597583815, 4.597963478))
            Line((124.597583815, 4.597963478), (124.597583815, -4.597963478))
            ThreePointArc((124.597583815, -4.597963478), (125.679160852, -6.985054867), (128.187004475, -7.745800913))
            Line((128.187004475, -7.745800913), (163.112004475, -3.147837435))
            ThreePointArc((163.112004475, -3.147837435), (165.872583815, 0), (163.112004475, 3.147837435))
        make_face()
    extrude(amount=-CUT_EXTRUDE10_DEPTH, mode=Mode.SUBTRACT)


solid = part_1.part
